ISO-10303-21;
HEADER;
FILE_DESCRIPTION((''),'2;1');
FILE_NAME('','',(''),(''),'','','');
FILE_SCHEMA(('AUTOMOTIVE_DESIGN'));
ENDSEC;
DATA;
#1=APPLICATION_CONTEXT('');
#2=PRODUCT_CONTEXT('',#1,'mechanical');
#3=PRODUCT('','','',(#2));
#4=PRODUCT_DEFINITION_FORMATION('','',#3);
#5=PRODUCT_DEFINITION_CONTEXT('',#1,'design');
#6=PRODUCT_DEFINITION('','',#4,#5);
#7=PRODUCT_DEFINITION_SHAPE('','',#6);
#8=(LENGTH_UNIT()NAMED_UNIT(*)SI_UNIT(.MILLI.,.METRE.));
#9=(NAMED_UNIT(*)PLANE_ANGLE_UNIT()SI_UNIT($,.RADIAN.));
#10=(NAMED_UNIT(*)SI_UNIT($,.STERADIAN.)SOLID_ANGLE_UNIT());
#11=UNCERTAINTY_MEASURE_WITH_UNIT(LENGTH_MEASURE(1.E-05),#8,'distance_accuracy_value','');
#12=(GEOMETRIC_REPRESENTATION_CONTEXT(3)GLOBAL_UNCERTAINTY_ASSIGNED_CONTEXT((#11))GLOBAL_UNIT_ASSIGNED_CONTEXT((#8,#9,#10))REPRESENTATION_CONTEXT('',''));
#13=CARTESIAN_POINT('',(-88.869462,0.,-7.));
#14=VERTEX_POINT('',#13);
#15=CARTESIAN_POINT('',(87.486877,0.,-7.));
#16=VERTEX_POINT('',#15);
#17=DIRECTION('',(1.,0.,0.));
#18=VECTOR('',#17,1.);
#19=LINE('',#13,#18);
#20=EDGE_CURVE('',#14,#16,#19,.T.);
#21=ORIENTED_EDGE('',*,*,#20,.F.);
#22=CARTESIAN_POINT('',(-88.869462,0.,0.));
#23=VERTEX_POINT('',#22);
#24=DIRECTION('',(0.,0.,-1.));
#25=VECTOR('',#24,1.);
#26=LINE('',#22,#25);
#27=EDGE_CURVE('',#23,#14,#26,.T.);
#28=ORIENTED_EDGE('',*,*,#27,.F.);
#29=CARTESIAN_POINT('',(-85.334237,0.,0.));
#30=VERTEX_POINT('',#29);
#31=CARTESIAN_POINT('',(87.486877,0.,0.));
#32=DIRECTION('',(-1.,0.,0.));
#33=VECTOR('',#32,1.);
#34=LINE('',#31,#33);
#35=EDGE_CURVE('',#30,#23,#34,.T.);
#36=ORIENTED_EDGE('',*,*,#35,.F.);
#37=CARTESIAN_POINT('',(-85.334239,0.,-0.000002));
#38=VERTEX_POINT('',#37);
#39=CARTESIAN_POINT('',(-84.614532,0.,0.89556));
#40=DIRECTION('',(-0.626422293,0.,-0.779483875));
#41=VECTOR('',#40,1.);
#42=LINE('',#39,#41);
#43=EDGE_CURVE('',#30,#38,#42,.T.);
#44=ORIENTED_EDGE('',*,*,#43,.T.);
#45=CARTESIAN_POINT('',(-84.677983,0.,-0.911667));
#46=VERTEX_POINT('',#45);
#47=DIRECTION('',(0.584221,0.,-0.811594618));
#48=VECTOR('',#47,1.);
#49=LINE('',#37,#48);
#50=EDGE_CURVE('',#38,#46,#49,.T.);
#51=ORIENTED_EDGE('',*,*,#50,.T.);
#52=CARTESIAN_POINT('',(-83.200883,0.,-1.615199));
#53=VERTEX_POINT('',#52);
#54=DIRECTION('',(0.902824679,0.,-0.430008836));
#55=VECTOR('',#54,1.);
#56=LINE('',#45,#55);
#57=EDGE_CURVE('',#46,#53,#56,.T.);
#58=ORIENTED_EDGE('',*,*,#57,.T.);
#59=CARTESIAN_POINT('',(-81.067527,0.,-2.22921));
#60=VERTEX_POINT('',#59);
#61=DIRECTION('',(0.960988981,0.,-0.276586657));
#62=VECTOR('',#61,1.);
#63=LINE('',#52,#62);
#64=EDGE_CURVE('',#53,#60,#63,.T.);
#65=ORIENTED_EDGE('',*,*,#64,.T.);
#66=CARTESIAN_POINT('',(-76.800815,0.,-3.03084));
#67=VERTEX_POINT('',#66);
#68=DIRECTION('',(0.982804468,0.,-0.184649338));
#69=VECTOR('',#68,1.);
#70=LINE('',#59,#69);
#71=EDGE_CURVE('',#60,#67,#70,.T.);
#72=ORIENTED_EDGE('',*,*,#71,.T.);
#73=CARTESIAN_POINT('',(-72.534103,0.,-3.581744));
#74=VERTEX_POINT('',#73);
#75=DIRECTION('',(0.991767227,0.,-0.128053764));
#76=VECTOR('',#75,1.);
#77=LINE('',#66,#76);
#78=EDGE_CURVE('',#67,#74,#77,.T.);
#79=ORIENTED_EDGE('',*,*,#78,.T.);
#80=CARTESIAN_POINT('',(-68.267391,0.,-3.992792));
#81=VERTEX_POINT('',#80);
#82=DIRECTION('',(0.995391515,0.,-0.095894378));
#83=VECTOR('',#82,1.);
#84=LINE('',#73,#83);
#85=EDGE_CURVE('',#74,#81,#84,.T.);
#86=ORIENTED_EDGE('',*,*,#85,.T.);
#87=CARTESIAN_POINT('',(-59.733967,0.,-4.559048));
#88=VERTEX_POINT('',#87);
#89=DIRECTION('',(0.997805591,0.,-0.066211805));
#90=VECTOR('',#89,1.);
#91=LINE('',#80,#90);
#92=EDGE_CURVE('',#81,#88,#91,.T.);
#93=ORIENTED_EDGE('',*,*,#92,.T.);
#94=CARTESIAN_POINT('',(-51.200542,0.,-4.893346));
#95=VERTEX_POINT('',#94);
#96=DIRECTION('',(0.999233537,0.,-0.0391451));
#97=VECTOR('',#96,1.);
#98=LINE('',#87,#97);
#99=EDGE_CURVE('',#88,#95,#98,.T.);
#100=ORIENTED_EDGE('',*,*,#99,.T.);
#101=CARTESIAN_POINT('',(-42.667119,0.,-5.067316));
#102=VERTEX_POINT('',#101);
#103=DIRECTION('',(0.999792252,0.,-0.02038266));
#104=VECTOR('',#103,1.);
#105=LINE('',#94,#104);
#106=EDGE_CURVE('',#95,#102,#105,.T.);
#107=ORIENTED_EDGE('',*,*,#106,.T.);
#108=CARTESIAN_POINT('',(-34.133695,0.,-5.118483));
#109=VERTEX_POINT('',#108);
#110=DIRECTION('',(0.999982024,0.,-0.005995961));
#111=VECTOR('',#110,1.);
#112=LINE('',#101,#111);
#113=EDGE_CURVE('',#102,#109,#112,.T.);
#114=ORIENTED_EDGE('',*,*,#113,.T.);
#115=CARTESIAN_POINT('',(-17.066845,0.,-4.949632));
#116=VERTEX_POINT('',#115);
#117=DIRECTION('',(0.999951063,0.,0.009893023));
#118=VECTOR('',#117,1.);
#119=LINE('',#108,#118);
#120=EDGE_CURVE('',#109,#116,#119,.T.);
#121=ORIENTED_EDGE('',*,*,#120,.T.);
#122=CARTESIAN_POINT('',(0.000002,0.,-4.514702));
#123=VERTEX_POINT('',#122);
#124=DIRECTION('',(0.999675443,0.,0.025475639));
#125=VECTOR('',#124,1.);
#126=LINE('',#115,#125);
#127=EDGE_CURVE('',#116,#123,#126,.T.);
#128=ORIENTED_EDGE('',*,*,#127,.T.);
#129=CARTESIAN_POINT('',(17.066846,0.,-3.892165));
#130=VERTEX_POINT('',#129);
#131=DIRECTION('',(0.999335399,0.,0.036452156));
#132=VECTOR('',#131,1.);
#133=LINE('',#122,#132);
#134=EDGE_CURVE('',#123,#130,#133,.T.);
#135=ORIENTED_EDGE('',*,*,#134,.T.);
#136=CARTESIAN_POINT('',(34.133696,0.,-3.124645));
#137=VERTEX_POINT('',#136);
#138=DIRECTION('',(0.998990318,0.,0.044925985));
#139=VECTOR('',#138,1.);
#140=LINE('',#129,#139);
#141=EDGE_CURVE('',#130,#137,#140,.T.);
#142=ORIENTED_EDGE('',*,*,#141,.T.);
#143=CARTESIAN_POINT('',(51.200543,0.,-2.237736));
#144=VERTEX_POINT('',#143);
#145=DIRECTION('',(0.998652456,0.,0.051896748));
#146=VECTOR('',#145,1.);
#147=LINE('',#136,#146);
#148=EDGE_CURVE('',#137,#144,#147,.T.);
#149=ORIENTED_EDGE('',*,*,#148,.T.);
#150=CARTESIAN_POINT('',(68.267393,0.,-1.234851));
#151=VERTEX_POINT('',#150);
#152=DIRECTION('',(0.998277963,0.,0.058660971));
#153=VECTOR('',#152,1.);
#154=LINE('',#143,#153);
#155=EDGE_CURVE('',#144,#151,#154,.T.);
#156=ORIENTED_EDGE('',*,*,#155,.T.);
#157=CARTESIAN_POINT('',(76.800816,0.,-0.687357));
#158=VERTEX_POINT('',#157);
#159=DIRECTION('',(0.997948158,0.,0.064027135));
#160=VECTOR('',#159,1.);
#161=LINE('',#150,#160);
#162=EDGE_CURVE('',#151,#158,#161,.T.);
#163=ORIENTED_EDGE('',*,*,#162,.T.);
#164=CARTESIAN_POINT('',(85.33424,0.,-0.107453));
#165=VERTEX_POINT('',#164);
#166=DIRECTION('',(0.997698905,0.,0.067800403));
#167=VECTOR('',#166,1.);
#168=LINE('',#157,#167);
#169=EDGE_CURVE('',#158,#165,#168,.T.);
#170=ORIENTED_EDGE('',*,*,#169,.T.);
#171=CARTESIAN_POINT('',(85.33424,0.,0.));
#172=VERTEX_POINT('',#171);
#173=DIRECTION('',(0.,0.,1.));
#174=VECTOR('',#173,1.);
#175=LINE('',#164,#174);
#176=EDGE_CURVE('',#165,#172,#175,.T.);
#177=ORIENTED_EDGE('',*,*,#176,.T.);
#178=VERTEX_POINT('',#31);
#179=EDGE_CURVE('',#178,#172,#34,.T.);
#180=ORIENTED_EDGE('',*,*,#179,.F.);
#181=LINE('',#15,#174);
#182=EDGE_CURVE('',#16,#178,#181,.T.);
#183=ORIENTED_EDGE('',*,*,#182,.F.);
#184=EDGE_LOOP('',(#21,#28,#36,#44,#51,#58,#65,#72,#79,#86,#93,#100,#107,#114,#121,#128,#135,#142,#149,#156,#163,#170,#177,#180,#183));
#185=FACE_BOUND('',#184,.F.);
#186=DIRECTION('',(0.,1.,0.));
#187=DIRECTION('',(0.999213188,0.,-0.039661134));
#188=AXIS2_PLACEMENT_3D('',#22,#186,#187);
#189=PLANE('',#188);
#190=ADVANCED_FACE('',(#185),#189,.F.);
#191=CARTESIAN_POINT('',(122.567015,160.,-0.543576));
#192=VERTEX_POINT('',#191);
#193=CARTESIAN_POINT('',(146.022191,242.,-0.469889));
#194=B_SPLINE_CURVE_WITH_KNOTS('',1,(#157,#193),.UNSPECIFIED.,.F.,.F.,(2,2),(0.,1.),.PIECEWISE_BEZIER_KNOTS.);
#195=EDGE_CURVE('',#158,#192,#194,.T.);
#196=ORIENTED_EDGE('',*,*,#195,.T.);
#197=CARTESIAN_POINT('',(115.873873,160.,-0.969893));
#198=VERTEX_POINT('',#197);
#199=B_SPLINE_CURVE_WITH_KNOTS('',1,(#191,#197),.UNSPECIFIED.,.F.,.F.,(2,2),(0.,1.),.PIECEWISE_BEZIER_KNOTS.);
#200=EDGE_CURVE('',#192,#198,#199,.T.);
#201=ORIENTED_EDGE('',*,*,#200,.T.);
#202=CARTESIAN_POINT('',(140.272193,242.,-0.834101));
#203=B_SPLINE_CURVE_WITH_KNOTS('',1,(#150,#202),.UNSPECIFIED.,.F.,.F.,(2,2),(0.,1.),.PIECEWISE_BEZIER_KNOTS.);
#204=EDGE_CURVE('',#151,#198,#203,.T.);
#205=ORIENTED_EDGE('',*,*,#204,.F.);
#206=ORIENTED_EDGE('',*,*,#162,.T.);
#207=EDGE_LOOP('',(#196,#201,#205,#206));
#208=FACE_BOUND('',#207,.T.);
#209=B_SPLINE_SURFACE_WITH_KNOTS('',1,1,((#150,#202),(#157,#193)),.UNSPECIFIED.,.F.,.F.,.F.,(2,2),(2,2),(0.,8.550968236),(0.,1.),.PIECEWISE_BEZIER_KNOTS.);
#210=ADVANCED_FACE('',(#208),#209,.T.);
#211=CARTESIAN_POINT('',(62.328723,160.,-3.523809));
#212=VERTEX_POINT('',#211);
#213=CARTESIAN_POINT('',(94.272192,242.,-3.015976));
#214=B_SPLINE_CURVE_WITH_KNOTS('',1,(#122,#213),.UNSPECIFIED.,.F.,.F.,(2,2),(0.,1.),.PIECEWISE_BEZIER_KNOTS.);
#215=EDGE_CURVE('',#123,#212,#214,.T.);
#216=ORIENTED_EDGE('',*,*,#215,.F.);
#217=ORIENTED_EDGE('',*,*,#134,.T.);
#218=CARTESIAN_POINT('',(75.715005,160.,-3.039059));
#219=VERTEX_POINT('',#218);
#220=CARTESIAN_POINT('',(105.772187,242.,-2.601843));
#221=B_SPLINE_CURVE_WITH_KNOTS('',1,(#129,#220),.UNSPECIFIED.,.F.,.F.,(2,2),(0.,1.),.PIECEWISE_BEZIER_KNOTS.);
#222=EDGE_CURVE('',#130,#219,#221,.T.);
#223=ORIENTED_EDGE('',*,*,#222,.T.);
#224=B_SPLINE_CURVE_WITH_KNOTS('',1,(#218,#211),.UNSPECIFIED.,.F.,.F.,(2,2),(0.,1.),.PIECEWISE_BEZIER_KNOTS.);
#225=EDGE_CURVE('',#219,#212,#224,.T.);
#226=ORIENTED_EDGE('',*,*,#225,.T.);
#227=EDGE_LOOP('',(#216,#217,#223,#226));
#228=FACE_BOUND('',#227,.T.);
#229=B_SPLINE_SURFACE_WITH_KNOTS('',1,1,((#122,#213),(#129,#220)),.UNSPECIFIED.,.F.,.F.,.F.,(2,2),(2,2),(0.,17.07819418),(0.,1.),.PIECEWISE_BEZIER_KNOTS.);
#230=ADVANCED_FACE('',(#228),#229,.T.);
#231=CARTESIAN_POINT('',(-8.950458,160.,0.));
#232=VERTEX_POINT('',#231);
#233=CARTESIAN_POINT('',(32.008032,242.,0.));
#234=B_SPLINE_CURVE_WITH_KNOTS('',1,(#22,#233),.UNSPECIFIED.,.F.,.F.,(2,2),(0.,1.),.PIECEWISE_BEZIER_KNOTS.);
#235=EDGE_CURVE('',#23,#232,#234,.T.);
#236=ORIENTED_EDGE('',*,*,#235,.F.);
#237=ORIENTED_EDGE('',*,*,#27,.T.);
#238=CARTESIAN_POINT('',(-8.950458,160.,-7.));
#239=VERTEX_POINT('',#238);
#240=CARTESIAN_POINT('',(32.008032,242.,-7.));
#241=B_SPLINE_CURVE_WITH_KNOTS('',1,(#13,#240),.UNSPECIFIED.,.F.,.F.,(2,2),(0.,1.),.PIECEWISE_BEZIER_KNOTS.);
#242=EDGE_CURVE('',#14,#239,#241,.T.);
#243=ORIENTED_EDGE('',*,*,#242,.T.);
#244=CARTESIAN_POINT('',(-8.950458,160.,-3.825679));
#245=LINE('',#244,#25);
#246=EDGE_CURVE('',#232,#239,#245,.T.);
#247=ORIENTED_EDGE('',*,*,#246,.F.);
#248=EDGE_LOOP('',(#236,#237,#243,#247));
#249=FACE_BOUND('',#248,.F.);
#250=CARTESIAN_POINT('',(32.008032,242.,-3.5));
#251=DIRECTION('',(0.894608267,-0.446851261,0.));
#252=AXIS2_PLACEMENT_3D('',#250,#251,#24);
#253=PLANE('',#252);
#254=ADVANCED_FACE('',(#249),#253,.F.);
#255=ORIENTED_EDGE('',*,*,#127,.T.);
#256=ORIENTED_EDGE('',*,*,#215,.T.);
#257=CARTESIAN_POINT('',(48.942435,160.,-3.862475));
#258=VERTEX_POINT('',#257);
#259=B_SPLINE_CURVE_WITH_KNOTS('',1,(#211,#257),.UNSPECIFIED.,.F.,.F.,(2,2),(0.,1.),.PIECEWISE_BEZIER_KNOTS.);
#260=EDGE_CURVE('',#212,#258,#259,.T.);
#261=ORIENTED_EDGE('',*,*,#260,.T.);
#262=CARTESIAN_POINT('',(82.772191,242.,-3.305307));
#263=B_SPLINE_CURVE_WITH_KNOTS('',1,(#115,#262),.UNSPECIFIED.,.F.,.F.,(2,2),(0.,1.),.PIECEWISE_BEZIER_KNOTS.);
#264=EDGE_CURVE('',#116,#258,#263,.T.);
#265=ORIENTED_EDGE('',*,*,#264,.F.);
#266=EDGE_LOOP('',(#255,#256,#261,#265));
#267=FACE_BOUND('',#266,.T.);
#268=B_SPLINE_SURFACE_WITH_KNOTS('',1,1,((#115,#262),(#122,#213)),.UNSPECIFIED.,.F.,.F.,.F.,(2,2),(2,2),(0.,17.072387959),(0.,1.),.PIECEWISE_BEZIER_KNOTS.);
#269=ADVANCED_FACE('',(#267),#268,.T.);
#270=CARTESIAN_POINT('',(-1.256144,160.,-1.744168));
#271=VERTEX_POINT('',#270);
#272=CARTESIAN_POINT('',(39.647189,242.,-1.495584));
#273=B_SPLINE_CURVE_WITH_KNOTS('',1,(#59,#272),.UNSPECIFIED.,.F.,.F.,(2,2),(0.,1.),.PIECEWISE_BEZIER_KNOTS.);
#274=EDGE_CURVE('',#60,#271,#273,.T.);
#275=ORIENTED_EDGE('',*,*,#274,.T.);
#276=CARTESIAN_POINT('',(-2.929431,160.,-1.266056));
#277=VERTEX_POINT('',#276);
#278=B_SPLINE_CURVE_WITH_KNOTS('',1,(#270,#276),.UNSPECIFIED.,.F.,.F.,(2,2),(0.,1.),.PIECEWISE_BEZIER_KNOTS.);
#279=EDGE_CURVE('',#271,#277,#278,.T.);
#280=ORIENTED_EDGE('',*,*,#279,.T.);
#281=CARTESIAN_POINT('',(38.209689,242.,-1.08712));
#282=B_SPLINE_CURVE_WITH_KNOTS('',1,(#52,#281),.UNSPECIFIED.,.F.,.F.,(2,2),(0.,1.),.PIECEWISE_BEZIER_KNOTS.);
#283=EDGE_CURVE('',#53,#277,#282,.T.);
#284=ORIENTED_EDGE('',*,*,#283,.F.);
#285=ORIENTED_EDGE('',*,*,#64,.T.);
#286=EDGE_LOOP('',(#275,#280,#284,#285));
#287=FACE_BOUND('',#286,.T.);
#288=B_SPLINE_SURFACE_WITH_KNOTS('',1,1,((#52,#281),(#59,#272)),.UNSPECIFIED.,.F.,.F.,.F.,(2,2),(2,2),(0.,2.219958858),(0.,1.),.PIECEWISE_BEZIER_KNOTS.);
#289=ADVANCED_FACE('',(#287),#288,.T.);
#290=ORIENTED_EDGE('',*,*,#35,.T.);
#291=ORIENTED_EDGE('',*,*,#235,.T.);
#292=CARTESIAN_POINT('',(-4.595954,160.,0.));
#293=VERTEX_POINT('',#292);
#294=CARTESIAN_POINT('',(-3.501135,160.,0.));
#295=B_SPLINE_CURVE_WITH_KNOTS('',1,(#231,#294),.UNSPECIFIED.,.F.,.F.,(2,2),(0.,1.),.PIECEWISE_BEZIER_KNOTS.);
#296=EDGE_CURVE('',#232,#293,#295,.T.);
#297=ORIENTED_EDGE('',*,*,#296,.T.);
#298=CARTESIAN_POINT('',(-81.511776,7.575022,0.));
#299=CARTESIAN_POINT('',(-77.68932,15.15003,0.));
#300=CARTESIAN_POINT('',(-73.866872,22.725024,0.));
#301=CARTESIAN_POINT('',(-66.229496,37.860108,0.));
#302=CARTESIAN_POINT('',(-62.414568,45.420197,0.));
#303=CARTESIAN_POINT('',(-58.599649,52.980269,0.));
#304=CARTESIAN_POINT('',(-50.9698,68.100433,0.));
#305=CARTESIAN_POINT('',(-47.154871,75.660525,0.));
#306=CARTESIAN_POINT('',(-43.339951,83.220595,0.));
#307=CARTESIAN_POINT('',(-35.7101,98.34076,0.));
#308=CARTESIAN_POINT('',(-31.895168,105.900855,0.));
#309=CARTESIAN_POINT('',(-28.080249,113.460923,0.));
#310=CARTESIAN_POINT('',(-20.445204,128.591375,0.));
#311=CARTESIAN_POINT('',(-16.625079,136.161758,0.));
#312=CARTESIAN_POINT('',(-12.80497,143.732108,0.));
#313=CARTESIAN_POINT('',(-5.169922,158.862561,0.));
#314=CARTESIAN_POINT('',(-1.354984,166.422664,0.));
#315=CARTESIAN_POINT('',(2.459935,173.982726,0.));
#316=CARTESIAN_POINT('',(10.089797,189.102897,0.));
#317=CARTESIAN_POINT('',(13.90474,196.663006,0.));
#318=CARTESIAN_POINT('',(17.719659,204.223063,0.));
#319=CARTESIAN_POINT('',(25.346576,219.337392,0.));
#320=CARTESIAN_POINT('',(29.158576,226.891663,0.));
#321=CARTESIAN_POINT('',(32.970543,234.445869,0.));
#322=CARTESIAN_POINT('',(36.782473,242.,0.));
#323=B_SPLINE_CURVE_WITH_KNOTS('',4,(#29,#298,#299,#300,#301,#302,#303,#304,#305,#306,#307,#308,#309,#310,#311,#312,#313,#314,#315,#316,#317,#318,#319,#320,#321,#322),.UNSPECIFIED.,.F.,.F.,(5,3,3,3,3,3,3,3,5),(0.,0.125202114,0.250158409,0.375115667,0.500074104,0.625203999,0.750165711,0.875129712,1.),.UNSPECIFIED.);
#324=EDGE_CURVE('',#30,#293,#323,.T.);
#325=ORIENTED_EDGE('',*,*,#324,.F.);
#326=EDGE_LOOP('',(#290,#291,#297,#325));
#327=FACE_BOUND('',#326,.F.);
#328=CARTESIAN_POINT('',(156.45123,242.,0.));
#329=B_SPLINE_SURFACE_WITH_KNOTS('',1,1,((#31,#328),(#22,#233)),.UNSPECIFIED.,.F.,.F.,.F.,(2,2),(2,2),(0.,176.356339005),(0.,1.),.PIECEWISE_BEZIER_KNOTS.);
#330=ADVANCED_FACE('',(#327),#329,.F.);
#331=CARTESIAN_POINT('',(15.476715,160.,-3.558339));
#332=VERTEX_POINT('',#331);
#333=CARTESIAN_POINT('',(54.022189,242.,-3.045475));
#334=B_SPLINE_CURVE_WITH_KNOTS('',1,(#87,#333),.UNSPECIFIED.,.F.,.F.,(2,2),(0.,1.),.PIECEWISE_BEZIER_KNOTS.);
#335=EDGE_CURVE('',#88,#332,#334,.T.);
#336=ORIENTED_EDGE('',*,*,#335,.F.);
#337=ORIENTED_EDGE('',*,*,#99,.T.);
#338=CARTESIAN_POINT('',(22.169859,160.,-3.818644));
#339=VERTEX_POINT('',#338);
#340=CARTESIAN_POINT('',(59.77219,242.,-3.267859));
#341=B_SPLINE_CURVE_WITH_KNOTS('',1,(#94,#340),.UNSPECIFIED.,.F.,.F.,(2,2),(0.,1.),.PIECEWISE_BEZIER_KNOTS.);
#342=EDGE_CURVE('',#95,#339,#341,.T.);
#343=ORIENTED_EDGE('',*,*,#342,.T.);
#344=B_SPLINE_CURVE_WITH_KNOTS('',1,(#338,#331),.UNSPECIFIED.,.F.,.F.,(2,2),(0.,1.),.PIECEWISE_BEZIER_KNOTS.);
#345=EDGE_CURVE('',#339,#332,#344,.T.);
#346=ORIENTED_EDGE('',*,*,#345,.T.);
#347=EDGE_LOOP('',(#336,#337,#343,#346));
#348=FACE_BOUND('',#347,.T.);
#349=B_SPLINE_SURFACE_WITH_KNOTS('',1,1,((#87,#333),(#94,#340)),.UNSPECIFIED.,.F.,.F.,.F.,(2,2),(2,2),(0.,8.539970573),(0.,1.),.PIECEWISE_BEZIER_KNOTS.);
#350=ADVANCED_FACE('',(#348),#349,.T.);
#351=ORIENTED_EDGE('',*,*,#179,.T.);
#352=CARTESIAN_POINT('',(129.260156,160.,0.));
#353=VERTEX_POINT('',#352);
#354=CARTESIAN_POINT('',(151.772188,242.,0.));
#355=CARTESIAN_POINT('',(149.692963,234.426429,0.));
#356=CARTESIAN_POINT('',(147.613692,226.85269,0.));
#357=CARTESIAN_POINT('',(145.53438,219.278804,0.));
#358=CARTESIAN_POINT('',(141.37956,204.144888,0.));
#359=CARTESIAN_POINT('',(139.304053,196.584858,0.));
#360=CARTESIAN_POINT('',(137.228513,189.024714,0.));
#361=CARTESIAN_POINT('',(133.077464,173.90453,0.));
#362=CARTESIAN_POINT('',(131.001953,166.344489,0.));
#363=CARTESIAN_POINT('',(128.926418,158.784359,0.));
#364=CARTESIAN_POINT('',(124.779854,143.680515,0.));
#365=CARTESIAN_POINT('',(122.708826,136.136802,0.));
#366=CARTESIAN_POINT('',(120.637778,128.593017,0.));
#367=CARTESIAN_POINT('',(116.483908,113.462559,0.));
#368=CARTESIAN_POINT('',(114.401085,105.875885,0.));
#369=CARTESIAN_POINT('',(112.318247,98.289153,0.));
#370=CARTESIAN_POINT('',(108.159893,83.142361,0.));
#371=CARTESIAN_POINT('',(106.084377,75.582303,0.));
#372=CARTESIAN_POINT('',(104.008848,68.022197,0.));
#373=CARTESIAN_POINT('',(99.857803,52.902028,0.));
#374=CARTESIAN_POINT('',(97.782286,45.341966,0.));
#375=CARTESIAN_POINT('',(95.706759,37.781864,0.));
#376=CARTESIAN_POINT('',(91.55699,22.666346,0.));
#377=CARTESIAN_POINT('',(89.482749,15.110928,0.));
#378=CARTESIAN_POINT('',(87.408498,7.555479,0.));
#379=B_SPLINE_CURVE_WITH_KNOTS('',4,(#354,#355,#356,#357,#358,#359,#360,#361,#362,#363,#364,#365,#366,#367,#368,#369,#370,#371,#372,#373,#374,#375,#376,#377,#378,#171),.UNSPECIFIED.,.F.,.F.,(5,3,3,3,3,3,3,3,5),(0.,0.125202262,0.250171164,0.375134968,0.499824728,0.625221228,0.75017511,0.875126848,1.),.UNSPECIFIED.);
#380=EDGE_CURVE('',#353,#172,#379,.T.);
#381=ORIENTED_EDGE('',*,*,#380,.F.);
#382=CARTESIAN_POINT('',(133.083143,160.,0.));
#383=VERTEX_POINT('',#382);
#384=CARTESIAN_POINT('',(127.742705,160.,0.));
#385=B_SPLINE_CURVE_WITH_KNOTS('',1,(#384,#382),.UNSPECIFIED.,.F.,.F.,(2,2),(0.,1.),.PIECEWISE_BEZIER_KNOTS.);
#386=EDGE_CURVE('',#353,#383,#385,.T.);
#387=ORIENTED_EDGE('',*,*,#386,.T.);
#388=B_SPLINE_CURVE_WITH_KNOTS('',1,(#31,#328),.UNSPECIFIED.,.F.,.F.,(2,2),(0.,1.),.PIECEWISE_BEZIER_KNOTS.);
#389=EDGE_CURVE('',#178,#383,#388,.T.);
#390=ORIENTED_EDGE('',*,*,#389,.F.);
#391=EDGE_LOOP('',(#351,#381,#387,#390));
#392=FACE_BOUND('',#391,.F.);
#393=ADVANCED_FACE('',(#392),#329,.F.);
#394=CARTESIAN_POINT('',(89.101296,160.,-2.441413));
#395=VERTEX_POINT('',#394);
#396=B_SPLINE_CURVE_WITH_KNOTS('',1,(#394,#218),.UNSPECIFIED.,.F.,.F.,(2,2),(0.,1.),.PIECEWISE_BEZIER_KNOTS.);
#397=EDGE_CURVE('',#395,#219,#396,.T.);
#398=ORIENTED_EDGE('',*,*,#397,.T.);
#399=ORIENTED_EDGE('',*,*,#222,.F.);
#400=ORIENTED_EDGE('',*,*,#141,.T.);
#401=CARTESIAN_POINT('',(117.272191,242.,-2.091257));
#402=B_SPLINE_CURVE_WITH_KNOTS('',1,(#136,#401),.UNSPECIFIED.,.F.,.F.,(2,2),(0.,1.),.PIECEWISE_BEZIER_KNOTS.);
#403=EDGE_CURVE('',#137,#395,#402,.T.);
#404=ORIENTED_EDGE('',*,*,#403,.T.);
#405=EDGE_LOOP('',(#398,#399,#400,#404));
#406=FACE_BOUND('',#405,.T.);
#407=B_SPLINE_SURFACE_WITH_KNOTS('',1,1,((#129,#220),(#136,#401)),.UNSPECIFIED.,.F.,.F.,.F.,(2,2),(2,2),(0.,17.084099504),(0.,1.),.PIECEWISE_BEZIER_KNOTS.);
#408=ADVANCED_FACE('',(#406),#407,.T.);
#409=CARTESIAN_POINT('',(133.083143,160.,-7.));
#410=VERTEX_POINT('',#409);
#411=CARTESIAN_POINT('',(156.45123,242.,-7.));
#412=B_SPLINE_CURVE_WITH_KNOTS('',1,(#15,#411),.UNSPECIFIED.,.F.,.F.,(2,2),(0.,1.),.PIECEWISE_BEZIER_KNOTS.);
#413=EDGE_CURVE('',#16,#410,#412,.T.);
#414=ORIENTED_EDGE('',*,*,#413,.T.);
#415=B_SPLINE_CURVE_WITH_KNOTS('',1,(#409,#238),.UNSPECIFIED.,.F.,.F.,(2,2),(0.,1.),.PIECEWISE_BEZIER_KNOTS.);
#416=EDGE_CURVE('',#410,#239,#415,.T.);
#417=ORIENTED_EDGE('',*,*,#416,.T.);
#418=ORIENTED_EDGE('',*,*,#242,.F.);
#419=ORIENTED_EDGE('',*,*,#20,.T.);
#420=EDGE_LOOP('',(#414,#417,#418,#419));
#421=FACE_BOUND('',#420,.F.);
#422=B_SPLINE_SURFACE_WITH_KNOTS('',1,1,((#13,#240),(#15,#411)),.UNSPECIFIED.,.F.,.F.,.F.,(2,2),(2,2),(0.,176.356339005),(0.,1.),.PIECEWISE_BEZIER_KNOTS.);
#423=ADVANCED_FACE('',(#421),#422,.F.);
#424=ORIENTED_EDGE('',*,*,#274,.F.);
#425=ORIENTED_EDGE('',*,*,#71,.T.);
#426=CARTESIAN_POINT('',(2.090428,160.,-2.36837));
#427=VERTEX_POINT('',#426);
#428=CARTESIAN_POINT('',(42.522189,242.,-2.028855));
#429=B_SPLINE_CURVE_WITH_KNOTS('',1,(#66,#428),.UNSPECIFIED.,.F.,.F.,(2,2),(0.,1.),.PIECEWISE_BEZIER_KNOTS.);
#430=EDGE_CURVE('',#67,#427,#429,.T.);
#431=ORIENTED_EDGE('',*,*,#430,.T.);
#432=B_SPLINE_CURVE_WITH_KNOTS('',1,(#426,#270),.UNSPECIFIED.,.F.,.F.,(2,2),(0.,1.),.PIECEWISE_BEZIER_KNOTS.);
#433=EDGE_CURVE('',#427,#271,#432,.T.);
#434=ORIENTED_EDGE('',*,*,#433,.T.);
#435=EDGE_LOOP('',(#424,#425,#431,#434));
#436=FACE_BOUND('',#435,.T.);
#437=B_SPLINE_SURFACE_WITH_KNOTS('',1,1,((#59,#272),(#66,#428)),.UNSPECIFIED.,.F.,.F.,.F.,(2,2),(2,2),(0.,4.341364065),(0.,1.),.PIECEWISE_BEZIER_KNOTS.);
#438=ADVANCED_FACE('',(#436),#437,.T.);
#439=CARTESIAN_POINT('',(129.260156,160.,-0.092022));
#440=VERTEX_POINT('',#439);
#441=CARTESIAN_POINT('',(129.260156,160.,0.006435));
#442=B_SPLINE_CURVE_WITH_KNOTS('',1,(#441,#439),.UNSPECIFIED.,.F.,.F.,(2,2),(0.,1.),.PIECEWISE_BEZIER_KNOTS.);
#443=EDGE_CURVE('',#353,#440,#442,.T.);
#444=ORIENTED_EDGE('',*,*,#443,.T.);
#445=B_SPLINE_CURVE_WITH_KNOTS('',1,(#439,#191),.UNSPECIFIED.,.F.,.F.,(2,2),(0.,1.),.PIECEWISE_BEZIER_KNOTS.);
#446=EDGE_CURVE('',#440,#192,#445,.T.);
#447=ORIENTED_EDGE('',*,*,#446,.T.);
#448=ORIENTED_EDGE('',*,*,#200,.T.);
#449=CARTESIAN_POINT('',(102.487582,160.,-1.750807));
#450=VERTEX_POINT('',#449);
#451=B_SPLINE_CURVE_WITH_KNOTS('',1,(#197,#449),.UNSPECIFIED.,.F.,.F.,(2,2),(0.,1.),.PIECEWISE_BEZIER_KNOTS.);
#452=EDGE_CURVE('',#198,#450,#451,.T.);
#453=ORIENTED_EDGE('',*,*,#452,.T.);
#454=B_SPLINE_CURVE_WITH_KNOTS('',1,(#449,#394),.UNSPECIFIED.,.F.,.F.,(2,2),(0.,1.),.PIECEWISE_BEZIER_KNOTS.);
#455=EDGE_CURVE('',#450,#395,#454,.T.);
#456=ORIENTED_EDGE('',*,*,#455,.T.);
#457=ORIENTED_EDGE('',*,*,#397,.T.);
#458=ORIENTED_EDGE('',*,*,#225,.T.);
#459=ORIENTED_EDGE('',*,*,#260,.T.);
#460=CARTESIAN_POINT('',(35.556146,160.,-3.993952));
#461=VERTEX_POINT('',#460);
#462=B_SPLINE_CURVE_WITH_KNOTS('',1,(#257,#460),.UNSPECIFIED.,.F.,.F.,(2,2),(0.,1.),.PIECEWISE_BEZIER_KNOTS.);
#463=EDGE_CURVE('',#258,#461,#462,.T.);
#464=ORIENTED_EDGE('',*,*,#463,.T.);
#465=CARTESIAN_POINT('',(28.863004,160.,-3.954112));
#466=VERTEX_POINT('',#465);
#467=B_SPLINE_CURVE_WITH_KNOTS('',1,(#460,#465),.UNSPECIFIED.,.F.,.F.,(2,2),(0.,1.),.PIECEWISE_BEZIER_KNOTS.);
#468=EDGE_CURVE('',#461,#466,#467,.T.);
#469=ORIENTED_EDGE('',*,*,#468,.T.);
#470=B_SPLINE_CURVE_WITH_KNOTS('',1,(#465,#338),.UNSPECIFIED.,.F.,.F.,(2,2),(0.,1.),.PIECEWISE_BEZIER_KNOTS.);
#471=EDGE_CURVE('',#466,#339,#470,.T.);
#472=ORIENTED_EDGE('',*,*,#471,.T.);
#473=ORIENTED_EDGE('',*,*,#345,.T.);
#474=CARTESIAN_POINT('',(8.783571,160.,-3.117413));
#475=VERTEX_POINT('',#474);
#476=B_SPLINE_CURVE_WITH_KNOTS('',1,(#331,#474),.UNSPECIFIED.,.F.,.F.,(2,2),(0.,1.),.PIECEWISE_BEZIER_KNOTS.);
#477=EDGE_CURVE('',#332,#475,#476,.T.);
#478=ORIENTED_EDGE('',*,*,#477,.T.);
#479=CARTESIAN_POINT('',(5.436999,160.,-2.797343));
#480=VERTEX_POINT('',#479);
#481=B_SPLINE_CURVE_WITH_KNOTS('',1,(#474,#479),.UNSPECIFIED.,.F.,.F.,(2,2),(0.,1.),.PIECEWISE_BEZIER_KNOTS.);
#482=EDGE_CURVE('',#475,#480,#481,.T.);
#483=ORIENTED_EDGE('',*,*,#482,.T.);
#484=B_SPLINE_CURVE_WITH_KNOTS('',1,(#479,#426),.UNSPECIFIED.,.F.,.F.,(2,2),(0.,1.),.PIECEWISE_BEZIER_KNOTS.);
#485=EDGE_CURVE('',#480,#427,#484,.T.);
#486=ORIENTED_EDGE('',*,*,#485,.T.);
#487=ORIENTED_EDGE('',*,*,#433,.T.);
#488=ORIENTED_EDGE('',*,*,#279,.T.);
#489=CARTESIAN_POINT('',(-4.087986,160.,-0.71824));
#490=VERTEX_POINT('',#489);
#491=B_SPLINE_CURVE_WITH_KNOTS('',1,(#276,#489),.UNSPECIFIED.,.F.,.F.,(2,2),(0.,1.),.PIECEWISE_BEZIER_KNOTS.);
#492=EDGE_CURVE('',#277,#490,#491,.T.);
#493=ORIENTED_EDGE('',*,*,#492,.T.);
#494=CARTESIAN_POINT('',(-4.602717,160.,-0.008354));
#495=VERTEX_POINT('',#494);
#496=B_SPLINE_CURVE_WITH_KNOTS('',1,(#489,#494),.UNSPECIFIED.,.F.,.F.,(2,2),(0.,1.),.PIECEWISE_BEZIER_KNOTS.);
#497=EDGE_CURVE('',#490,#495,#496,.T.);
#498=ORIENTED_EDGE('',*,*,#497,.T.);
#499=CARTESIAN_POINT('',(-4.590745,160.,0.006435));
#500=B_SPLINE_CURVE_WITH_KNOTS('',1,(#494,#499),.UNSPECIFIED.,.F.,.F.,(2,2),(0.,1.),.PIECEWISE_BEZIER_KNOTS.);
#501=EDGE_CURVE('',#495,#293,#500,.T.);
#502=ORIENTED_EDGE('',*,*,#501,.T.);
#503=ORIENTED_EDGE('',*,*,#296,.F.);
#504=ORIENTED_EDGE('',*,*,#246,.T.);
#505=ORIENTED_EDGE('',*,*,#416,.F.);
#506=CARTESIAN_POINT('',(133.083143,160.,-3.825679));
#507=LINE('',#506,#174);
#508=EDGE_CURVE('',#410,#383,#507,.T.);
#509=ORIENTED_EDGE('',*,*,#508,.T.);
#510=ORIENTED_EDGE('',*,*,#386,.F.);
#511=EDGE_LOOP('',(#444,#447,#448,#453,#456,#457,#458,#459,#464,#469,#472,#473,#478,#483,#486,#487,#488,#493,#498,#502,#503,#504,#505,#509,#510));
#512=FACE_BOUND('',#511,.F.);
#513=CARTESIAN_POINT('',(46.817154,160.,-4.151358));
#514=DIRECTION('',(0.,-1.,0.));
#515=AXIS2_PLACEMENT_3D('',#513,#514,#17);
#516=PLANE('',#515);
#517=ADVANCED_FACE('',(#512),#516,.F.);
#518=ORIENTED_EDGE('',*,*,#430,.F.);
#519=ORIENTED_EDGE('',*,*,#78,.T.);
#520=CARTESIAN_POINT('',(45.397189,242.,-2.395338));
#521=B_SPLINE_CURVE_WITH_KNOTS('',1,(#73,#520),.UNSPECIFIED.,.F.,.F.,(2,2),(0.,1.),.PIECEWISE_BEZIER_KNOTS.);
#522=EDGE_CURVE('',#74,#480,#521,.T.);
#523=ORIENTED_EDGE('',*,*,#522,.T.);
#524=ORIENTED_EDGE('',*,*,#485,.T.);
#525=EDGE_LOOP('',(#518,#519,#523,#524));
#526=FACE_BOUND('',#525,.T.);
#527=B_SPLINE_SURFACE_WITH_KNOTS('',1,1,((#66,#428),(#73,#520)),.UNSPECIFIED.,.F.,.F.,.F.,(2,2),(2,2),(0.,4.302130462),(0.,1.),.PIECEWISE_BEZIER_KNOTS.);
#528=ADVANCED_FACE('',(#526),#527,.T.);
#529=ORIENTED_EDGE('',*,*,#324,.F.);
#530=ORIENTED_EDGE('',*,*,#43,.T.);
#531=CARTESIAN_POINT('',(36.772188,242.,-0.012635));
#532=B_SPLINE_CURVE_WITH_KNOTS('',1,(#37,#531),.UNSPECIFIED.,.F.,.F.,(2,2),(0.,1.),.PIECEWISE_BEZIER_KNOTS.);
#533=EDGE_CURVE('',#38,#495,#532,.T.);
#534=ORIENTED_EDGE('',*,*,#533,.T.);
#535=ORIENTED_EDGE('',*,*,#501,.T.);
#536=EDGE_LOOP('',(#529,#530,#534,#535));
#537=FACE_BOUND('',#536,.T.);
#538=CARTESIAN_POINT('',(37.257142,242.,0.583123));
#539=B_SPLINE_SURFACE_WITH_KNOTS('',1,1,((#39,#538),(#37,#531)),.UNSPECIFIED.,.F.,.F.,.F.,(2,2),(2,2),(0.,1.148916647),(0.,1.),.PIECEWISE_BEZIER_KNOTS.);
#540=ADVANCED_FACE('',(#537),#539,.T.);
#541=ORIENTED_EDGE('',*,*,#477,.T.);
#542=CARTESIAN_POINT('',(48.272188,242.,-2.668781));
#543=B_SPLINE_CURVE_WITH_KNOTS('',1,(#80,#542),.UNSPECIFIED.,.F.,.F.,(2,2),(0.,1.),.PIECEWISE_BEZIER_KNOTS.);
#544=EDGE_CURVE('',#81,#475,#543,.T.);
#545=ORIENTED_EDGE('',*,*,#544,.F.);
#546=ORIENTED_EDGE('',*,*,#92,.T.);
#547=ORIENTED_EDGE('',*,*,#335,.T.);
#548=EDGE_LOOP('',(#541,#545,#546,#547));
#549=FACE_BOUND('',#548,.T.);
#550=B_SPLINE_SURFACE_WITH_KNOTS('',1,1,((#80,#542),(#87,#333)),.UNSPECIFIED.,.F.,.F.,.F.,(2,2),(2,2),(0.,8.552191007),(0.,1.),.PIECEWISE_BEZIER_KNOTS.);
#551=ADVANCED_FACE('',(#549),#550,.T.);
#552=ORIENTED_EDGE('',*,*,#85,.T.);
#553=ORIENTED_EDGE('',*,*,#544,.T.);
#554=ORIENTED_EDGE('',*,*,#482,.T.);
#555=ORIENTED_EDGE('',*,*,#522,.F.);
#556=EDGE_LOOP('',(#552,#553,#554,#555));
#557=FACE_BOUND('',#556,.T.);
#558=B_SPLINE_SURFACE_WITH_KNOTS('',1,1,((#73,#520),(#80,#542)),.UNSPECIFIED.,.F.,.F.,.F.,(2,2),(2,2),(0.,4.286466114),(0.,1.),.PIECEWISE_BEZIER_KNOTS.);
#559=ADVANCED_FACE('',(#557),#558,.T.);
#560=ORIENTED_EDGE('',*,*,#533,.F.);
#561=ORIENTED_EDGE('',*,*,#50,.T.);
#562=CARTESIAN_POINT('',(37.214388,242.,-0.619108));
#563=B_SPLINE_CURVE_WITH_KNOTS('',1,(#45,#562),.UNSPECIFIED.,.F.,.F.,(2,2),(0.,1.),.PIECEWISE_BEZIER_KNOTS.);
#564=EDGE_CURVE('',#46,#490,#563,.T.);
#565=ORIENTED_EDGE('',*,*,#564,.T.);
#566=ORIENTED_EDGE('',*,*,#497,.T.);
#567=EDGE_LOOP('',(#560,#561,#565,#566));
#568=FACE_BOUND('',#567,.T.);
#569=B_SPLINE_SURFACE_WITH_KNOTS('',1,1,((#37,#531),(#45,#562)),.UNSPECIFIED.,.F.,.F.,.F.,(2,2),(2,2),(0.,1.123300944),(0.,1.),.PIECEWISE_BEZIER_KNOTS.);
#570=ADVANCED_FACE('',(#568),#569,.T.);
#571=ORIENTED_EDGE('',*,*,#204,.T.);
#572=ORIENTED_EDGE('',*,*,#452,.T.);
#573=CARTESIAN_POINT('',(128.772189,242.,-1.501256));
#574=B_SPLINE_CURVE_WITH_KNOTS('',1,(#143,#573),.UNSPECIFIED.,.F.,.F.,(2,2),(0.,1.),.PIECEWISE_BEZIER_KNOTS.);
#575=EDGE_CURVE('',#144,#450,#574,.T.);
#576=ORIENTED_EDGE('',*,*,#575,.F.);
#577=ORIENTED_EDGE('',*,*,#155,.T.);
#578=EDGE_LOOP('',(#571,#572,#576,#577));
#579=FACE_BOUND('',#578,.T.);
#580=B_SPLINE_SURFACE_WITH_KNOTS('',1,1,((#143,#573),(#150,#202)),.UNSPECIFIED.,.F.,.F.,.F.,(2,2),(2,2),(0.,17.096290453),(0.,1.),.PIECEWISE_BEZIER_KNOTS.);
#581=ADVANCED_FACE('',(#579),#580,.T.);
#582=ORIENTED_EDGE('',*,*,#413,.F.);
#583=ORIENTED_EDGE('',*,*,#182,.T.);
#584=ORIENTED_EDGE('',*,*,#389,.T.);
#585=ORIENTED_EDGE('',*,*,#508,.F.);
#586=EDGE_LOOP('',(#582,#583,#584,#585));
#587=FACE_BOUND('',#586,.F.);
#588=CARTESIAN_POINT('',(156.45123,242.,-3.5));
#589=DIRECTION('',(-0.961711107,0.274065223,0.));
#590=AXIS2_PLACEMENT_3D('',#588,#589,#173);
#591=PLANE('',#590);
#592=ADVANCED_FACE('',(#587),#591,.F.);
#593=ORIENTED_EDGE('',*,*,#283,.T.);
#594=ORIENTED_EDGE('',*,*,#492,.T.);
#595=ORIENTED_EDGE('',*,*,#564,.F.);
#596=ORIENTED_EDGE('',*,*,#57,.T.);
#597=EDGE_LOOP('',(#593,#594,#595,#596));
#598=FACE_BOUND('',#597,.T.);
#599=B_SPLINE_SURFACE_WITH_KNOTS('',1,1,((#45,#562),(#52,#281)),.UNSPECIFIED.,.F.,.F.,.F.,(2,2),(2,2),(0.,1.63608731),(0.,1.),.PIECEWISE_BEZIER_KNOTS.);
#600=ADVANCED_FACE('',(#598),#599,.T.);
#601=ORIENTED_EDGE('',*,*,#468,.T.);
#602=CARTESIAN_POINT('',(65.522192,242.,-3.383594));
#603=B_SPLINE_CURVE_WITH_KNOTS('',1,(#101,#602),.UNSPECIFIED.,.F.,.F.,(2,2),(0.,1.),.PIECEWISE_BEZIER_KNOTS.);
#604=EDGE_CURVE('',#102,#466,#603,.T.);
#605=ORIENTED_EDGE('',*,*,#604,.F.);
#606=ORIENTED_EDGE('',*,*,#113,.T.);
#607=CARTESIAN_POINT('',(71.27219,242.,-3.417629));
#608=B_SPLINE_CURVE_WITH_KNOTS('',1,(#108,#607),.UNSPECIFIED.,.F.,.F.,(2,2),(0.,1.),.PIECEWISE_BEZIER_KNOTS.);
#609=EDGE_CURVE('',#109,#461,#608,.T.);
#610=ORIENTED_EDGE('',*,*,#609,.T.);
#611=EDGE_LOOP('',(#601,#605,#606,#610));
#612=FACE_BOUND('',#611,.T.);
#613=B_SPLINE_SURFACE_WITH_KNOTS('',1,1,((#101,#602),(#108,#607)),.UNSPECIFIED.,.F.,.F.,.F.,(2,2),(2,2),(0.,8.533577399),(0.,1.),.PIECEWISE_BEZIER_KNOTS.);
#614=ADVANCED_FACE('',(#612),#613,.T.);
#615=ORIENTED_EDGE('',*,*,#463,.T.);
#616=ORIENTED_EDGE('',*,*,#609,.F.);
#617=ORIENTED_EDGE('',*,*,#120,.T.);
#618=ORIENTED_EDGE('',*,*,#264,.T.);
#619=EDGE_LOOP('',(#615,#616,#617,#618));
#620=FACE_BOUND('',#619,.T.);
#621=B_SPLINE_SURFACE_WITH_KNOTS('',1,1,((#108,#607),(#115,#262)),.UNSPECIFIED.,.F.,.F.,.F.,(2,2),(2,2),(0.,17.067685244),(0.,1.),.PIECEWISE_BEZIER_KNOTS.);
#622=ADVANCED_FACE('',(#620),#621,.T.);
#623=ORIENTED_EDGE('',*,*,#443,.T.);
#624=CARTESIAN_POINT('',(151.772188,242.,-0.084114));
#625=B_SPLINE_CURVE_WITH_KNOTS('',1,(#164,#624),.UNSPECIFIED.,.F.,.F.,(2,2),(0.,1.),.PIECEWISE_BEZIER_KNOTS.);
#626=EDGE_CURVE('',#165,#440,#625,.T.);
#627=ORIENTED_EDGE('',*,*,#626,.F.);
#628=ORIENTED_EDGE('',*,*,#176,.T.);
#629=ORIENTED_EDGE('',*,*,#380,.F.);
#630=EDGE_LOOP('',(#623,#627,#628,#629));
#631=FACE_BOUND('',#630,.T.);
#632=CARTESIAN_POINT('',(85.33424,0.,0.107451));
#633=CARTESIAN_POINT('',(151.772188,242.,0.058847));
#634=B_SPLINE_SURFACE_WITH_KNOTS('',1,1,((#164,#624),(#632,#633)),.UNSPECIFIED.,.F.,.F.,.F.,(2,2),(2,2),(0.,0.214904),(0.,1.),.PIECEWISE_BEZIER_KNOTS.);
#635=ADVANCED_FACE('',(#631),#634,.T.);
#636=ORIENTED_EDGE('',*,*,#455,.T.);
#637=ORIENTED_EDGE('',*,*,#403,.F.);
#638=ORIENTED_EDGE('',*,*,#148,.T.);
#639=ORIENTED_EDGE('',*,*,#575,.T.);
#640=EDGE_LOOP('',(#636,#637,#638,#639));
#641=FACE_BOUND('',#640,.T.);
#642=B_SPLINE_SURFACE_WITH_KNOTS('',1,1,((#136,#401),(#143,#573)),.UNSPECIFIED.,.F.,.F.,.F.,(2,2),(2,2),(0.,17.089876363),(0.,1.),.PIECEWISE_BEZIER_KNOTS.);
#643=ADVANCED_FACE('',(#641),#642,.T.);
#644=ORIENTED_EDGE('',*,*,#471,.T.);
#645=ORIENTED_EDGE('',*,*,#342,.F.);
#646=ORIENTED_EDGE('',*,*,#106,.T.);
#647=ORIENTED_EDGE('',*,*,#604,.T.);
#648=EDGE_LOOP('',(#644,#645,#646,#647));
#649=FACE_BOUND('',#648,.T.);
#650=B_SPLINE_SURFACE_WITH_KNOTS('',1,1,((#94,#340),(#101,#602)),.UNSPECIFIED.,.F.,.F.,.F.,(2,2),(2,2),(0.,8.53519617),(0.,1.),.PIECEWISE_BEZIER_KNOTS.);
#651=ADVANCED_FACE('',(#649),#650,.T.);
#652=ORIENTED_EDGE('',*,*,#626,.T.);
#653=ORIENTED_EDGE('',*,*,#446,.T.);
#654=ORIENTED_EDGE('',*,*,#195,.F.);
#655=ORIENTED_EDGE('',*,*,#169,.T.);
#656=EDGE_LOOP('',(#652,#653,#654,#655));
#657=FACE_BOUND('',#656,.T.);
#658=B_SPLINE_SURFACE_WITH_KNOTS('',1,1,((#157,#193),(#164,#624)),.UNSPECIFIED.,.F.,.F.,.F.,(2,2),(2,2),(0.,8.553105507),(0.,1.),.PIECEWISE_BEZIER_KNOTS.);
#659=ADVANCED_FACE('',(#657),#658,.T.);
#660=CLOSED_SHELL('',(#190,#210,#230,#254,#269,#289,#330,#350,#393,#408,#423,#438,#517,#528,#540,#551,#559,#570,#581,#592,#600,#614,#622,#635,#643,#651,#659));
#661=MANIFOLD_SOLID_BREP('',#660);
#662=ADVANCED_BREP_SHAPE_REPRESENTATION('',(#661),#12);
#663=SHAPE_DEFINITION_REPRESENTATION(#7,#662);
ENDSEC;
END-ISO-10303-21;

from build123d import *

# Parameters (mm, degrees)
F7_W      = 124.4431979082
F7_H      = 7
F9_W      = 74.3127836547
F9_H      = 7
F14_W     = 276.002407074
F14_H     = 30.9464875609
F15_DEPTH = 200


with BuildPart() as f5:
    # F2 (on Front) → F5 section 0
    with BuildSketch(Plane.XZ):
        Polygon((85.33424, -0.107453), (85.33424, 0.107451), (76.800816, 0.687353), (68.267393, 1.234847), (51.200543, 2.237735), (34.133696, 3.124644), (17.066846, 3.892161), (2e-06, 4.514701), (-17.066845, 4.949631), (-34.133695, 5.118482), (-42.667119, 5.067315), (-51.200542, 4.893345), (-59.733967, 4.559047), (-68.267391, 3.99279), (-72.534103, 3.581742), (-76.800815, 3.030836), (-81.067527, 2.229209), (-83.200883, 1.615195), (-84.614532, 0.89556), (-85.334239, -2e-06), (-84.677983, -0.911667), (-83.200883, -1.615199), (-81.067527, -2.22921), (-76.800815, -3.03084), (-72.534103, -3.581744), (-68.267391, -3.992792), (-59.733967, -4.559048), (-51.200542, -4.893346), (-42.667119, -5.067316), (-34.133695, -5.118483), (-17.066845, -4.949632), (2e-06, -4.514702), (17.066846, -3.892165), (34.133696, -3.124645), (51.200543, -2.237736), (68.267393, -1.234851), (76.800816, -0.687357), align=None)
    # F3 (on offset) → F5 section 1
    with BuildSketch(Plane.XZ.offset(-242)):
        Polygon((151.7721883423, -0.0841142291), (151.7721883423, 0.0588466904), (146.022191309, 0.4446183214), (140.27219327, 0.8088308689), (128.7721891468, 1.4759898717), (117.2721910575, 2.0659895201), (105.7721869344, 2.5765721341), (94.2721918621, 2.9907080691), (82.7721907559, 3.2800390551), (71.2721896496, 3.3923649172), (65.5221916107, 3.3583267467), (59.7721895491, 3.2425957602), (54.0221894988, 3.0202077499), (48.2721884429, 2.6435161153), (45.3971894234, 2.3700703464), (42.5221893982, 2.0035870455), (39.6471893731, 1.4703160053), (38.2096888577, 1.0618539367), (37.257142015, 0.5831232142), (36.7721883423, -0.012634775), (37.2143878926, -0.6191079446), (38.2096888577, -1.0871204698), (39.6471893731, -1.495583544), (42.5221893982, -2.0288545843), (45.3971894234, -2.3953378852), (48.2721884429, -2.6687806372), (54.0221894988, -3.0454752886), (59.7721895491, -3.2678592764), (65.5221916107, -3.3835942855), (71.2721896496, -3.417629439), (82.7721907559, -3.3053065939), (94.2721918621, -3.0159756079), (105.7721869344, -2.6018426898), (117.2721910575, -2.0912570589), (128.7721891468, -1.5012564048), (140.27219327, -0.8341014246), (146.022191309, -0.4698888771), align=None)
    loft()

    # F3 (on offset) → F8 section 0
    with BuildSketch(Plane.XZ.offset(-242)):
        Polygon((151.7721883423, -0.0841142291), (151.7721883423, 0.0588466904), (146.022191309, 0.4446183214), (140.27219327, 0.8088308689), (128.7721891468, 1.4759898717), (117.2721910575, 2.0659895201), (105.7721869344, 2.5765721341), (94.2721918621, 2.9907080691), (82.7721907559, 3.2800390551), (71.2721896496, 3.3923649172), (65.5221916107, 3.3583267467), (59.7721895491, 3.2425957602), (54.0221894988, 3.0202077499), (48.2721884429, 2.6435161153), (45.3971894234, 2.3700703464), (42.5221893982, 2.0035870455), (39.6471893731, 1.4703160053), (38.2096888577, 1.0618539367), (37.257142015, 0.5831232142), (36.7721883423, -0.012634775), (37.2143878926, -0.6191079446), (38.2096888577, -1.0871204698), (39.6471893731, -1.495583544), (42.5221893982, -2.0288545843), (45.3971894234, -2.3953378852), (48.2721884429, -2.6687806372), (54.0221894988, -3.0454752886), (59.7721895491, -3.2678592764), (65.5221916107, -3.3835942855), (71.2721896496, -3.417629439), (82.7721907559, -3.3053065939), (94.2721918621, -3.0159756079), (105.7721869344, -2.6018426898), (117.2721910575, -2.0912570589), (128.7721891468, -1.5012564048), (140.27219327, -0.8341014246), (146.022191309, -0.4698888771), align=None)
    # F4 (on offset) → F8 section 1
    with BuildSketch(Plane.XZ.offset(-315)):
        Polygon((172.8821369569, -0.0392518836), (172.8821369569, 0.0392481164), (169.6281849569, 0.2510951164), (166.3742329569, 0.4511011164), (159.8663269569, 0.8174671164), (153.3584209569, 1.1414641164), (146.8505149569, 1.4218491164), (140.3426109569, 1.6492701164), (133.8347059569, 1.8081551164), (127.3267999569, 1.8698371164), (124.0728479569, 1.8511541164), (120.8188949569, 1.7876011164), (117.5649419569, 1.6654781164), (114.3109889569, 1.4586201164), (112.6840129569, 1.3084581164), (111.0570359569, 1.1072051164), (109.4300599569, 0.8143601164), (108.6165719569, 0.5900561164), (108.0775209569, 0.3271631164), (107.8030829569, -2.8836e-06), (108.0533259569, -0.3330478836), (108.6165719569, -0.5900538836), (109.4300599569, -0.8143608836), (111.0570359569, -1.1072028836), (112.6840129569, -1.3084558836), (114.3109889569, -1.4586178836), (117.5649419569, -1.6654778836), (120.8188949569, -1.7875988836), (124.0728479569, -1.8511548836), (127.3267999569, -1.8698378836), (133.8347059569, -1.8081558836), (140.3426109569, -1.6492728836), (146.8505149569, -1.4218528836), (153.3584209569, -1.1414648836), (159.8663269569, -0.8174708836), (166.3742329569, -0.4511038836), (169.6281849569, -0.2510988836), align=None)
    loft()


with BuildPart() as f10:
    # F6 (on Front) → F10 section 0
    with BuildSketch(Plane.XZ):
        Polygon((61.0691448766, 0), (-88.8694618902, 0), (-88.8694618902, -7), (87.4868771153, -7), (87.4868771153, 0), align=None)
    # F7 (on offset) → F10 section 1
    with BuildSketch(Plane.XZ.offset(-242)):
        with Locations((94.229630797, -3.5)):
            Rectangle(F7_W, F7_H)
    loft()

    # F12: cut F5
    add(f5.part, mode=Mode.SUBTRACT)


with BuildPart() as f11:
    # F9 (on offset) → F11 section 0
    with BuildSketch(Plane.XZ.offset(-315)):
        with Locations((140.0638362015, -3.5)):
            Rectangle(F9_W, F9_H)
    # F7 (on offset) → F11 section 1
    with BuildSketch(Plane.XZ.offset(-242)):
        with Locations((94.229630797, -3.5)):
            Rectangle(F7_W, F7_H)
    loft()


with BuildPart() as f15_tool:
    # F14 (on offset) → F15 (new body)
    with BuildSketch(Plane.XZ.offset(-160)):
        with Locations((46.8171536922, -4.1513582692)):
            Rectangle(F14_W, F14_H)
    extrude(amount=-F15_DEPTH)


with BuildPart() as f10_1:
    add(f10.part)

    # F15: cut by f15_tool
    add(f15_tool.part, mode=Mode.SUBTRACT)


with BuildPart() as f11_1:
    add(f11.part)

    # F15: cut by f15_tool
    add(f15_tool.part, mode=Mode.SUBTRACT)


solid = f10_1.part
